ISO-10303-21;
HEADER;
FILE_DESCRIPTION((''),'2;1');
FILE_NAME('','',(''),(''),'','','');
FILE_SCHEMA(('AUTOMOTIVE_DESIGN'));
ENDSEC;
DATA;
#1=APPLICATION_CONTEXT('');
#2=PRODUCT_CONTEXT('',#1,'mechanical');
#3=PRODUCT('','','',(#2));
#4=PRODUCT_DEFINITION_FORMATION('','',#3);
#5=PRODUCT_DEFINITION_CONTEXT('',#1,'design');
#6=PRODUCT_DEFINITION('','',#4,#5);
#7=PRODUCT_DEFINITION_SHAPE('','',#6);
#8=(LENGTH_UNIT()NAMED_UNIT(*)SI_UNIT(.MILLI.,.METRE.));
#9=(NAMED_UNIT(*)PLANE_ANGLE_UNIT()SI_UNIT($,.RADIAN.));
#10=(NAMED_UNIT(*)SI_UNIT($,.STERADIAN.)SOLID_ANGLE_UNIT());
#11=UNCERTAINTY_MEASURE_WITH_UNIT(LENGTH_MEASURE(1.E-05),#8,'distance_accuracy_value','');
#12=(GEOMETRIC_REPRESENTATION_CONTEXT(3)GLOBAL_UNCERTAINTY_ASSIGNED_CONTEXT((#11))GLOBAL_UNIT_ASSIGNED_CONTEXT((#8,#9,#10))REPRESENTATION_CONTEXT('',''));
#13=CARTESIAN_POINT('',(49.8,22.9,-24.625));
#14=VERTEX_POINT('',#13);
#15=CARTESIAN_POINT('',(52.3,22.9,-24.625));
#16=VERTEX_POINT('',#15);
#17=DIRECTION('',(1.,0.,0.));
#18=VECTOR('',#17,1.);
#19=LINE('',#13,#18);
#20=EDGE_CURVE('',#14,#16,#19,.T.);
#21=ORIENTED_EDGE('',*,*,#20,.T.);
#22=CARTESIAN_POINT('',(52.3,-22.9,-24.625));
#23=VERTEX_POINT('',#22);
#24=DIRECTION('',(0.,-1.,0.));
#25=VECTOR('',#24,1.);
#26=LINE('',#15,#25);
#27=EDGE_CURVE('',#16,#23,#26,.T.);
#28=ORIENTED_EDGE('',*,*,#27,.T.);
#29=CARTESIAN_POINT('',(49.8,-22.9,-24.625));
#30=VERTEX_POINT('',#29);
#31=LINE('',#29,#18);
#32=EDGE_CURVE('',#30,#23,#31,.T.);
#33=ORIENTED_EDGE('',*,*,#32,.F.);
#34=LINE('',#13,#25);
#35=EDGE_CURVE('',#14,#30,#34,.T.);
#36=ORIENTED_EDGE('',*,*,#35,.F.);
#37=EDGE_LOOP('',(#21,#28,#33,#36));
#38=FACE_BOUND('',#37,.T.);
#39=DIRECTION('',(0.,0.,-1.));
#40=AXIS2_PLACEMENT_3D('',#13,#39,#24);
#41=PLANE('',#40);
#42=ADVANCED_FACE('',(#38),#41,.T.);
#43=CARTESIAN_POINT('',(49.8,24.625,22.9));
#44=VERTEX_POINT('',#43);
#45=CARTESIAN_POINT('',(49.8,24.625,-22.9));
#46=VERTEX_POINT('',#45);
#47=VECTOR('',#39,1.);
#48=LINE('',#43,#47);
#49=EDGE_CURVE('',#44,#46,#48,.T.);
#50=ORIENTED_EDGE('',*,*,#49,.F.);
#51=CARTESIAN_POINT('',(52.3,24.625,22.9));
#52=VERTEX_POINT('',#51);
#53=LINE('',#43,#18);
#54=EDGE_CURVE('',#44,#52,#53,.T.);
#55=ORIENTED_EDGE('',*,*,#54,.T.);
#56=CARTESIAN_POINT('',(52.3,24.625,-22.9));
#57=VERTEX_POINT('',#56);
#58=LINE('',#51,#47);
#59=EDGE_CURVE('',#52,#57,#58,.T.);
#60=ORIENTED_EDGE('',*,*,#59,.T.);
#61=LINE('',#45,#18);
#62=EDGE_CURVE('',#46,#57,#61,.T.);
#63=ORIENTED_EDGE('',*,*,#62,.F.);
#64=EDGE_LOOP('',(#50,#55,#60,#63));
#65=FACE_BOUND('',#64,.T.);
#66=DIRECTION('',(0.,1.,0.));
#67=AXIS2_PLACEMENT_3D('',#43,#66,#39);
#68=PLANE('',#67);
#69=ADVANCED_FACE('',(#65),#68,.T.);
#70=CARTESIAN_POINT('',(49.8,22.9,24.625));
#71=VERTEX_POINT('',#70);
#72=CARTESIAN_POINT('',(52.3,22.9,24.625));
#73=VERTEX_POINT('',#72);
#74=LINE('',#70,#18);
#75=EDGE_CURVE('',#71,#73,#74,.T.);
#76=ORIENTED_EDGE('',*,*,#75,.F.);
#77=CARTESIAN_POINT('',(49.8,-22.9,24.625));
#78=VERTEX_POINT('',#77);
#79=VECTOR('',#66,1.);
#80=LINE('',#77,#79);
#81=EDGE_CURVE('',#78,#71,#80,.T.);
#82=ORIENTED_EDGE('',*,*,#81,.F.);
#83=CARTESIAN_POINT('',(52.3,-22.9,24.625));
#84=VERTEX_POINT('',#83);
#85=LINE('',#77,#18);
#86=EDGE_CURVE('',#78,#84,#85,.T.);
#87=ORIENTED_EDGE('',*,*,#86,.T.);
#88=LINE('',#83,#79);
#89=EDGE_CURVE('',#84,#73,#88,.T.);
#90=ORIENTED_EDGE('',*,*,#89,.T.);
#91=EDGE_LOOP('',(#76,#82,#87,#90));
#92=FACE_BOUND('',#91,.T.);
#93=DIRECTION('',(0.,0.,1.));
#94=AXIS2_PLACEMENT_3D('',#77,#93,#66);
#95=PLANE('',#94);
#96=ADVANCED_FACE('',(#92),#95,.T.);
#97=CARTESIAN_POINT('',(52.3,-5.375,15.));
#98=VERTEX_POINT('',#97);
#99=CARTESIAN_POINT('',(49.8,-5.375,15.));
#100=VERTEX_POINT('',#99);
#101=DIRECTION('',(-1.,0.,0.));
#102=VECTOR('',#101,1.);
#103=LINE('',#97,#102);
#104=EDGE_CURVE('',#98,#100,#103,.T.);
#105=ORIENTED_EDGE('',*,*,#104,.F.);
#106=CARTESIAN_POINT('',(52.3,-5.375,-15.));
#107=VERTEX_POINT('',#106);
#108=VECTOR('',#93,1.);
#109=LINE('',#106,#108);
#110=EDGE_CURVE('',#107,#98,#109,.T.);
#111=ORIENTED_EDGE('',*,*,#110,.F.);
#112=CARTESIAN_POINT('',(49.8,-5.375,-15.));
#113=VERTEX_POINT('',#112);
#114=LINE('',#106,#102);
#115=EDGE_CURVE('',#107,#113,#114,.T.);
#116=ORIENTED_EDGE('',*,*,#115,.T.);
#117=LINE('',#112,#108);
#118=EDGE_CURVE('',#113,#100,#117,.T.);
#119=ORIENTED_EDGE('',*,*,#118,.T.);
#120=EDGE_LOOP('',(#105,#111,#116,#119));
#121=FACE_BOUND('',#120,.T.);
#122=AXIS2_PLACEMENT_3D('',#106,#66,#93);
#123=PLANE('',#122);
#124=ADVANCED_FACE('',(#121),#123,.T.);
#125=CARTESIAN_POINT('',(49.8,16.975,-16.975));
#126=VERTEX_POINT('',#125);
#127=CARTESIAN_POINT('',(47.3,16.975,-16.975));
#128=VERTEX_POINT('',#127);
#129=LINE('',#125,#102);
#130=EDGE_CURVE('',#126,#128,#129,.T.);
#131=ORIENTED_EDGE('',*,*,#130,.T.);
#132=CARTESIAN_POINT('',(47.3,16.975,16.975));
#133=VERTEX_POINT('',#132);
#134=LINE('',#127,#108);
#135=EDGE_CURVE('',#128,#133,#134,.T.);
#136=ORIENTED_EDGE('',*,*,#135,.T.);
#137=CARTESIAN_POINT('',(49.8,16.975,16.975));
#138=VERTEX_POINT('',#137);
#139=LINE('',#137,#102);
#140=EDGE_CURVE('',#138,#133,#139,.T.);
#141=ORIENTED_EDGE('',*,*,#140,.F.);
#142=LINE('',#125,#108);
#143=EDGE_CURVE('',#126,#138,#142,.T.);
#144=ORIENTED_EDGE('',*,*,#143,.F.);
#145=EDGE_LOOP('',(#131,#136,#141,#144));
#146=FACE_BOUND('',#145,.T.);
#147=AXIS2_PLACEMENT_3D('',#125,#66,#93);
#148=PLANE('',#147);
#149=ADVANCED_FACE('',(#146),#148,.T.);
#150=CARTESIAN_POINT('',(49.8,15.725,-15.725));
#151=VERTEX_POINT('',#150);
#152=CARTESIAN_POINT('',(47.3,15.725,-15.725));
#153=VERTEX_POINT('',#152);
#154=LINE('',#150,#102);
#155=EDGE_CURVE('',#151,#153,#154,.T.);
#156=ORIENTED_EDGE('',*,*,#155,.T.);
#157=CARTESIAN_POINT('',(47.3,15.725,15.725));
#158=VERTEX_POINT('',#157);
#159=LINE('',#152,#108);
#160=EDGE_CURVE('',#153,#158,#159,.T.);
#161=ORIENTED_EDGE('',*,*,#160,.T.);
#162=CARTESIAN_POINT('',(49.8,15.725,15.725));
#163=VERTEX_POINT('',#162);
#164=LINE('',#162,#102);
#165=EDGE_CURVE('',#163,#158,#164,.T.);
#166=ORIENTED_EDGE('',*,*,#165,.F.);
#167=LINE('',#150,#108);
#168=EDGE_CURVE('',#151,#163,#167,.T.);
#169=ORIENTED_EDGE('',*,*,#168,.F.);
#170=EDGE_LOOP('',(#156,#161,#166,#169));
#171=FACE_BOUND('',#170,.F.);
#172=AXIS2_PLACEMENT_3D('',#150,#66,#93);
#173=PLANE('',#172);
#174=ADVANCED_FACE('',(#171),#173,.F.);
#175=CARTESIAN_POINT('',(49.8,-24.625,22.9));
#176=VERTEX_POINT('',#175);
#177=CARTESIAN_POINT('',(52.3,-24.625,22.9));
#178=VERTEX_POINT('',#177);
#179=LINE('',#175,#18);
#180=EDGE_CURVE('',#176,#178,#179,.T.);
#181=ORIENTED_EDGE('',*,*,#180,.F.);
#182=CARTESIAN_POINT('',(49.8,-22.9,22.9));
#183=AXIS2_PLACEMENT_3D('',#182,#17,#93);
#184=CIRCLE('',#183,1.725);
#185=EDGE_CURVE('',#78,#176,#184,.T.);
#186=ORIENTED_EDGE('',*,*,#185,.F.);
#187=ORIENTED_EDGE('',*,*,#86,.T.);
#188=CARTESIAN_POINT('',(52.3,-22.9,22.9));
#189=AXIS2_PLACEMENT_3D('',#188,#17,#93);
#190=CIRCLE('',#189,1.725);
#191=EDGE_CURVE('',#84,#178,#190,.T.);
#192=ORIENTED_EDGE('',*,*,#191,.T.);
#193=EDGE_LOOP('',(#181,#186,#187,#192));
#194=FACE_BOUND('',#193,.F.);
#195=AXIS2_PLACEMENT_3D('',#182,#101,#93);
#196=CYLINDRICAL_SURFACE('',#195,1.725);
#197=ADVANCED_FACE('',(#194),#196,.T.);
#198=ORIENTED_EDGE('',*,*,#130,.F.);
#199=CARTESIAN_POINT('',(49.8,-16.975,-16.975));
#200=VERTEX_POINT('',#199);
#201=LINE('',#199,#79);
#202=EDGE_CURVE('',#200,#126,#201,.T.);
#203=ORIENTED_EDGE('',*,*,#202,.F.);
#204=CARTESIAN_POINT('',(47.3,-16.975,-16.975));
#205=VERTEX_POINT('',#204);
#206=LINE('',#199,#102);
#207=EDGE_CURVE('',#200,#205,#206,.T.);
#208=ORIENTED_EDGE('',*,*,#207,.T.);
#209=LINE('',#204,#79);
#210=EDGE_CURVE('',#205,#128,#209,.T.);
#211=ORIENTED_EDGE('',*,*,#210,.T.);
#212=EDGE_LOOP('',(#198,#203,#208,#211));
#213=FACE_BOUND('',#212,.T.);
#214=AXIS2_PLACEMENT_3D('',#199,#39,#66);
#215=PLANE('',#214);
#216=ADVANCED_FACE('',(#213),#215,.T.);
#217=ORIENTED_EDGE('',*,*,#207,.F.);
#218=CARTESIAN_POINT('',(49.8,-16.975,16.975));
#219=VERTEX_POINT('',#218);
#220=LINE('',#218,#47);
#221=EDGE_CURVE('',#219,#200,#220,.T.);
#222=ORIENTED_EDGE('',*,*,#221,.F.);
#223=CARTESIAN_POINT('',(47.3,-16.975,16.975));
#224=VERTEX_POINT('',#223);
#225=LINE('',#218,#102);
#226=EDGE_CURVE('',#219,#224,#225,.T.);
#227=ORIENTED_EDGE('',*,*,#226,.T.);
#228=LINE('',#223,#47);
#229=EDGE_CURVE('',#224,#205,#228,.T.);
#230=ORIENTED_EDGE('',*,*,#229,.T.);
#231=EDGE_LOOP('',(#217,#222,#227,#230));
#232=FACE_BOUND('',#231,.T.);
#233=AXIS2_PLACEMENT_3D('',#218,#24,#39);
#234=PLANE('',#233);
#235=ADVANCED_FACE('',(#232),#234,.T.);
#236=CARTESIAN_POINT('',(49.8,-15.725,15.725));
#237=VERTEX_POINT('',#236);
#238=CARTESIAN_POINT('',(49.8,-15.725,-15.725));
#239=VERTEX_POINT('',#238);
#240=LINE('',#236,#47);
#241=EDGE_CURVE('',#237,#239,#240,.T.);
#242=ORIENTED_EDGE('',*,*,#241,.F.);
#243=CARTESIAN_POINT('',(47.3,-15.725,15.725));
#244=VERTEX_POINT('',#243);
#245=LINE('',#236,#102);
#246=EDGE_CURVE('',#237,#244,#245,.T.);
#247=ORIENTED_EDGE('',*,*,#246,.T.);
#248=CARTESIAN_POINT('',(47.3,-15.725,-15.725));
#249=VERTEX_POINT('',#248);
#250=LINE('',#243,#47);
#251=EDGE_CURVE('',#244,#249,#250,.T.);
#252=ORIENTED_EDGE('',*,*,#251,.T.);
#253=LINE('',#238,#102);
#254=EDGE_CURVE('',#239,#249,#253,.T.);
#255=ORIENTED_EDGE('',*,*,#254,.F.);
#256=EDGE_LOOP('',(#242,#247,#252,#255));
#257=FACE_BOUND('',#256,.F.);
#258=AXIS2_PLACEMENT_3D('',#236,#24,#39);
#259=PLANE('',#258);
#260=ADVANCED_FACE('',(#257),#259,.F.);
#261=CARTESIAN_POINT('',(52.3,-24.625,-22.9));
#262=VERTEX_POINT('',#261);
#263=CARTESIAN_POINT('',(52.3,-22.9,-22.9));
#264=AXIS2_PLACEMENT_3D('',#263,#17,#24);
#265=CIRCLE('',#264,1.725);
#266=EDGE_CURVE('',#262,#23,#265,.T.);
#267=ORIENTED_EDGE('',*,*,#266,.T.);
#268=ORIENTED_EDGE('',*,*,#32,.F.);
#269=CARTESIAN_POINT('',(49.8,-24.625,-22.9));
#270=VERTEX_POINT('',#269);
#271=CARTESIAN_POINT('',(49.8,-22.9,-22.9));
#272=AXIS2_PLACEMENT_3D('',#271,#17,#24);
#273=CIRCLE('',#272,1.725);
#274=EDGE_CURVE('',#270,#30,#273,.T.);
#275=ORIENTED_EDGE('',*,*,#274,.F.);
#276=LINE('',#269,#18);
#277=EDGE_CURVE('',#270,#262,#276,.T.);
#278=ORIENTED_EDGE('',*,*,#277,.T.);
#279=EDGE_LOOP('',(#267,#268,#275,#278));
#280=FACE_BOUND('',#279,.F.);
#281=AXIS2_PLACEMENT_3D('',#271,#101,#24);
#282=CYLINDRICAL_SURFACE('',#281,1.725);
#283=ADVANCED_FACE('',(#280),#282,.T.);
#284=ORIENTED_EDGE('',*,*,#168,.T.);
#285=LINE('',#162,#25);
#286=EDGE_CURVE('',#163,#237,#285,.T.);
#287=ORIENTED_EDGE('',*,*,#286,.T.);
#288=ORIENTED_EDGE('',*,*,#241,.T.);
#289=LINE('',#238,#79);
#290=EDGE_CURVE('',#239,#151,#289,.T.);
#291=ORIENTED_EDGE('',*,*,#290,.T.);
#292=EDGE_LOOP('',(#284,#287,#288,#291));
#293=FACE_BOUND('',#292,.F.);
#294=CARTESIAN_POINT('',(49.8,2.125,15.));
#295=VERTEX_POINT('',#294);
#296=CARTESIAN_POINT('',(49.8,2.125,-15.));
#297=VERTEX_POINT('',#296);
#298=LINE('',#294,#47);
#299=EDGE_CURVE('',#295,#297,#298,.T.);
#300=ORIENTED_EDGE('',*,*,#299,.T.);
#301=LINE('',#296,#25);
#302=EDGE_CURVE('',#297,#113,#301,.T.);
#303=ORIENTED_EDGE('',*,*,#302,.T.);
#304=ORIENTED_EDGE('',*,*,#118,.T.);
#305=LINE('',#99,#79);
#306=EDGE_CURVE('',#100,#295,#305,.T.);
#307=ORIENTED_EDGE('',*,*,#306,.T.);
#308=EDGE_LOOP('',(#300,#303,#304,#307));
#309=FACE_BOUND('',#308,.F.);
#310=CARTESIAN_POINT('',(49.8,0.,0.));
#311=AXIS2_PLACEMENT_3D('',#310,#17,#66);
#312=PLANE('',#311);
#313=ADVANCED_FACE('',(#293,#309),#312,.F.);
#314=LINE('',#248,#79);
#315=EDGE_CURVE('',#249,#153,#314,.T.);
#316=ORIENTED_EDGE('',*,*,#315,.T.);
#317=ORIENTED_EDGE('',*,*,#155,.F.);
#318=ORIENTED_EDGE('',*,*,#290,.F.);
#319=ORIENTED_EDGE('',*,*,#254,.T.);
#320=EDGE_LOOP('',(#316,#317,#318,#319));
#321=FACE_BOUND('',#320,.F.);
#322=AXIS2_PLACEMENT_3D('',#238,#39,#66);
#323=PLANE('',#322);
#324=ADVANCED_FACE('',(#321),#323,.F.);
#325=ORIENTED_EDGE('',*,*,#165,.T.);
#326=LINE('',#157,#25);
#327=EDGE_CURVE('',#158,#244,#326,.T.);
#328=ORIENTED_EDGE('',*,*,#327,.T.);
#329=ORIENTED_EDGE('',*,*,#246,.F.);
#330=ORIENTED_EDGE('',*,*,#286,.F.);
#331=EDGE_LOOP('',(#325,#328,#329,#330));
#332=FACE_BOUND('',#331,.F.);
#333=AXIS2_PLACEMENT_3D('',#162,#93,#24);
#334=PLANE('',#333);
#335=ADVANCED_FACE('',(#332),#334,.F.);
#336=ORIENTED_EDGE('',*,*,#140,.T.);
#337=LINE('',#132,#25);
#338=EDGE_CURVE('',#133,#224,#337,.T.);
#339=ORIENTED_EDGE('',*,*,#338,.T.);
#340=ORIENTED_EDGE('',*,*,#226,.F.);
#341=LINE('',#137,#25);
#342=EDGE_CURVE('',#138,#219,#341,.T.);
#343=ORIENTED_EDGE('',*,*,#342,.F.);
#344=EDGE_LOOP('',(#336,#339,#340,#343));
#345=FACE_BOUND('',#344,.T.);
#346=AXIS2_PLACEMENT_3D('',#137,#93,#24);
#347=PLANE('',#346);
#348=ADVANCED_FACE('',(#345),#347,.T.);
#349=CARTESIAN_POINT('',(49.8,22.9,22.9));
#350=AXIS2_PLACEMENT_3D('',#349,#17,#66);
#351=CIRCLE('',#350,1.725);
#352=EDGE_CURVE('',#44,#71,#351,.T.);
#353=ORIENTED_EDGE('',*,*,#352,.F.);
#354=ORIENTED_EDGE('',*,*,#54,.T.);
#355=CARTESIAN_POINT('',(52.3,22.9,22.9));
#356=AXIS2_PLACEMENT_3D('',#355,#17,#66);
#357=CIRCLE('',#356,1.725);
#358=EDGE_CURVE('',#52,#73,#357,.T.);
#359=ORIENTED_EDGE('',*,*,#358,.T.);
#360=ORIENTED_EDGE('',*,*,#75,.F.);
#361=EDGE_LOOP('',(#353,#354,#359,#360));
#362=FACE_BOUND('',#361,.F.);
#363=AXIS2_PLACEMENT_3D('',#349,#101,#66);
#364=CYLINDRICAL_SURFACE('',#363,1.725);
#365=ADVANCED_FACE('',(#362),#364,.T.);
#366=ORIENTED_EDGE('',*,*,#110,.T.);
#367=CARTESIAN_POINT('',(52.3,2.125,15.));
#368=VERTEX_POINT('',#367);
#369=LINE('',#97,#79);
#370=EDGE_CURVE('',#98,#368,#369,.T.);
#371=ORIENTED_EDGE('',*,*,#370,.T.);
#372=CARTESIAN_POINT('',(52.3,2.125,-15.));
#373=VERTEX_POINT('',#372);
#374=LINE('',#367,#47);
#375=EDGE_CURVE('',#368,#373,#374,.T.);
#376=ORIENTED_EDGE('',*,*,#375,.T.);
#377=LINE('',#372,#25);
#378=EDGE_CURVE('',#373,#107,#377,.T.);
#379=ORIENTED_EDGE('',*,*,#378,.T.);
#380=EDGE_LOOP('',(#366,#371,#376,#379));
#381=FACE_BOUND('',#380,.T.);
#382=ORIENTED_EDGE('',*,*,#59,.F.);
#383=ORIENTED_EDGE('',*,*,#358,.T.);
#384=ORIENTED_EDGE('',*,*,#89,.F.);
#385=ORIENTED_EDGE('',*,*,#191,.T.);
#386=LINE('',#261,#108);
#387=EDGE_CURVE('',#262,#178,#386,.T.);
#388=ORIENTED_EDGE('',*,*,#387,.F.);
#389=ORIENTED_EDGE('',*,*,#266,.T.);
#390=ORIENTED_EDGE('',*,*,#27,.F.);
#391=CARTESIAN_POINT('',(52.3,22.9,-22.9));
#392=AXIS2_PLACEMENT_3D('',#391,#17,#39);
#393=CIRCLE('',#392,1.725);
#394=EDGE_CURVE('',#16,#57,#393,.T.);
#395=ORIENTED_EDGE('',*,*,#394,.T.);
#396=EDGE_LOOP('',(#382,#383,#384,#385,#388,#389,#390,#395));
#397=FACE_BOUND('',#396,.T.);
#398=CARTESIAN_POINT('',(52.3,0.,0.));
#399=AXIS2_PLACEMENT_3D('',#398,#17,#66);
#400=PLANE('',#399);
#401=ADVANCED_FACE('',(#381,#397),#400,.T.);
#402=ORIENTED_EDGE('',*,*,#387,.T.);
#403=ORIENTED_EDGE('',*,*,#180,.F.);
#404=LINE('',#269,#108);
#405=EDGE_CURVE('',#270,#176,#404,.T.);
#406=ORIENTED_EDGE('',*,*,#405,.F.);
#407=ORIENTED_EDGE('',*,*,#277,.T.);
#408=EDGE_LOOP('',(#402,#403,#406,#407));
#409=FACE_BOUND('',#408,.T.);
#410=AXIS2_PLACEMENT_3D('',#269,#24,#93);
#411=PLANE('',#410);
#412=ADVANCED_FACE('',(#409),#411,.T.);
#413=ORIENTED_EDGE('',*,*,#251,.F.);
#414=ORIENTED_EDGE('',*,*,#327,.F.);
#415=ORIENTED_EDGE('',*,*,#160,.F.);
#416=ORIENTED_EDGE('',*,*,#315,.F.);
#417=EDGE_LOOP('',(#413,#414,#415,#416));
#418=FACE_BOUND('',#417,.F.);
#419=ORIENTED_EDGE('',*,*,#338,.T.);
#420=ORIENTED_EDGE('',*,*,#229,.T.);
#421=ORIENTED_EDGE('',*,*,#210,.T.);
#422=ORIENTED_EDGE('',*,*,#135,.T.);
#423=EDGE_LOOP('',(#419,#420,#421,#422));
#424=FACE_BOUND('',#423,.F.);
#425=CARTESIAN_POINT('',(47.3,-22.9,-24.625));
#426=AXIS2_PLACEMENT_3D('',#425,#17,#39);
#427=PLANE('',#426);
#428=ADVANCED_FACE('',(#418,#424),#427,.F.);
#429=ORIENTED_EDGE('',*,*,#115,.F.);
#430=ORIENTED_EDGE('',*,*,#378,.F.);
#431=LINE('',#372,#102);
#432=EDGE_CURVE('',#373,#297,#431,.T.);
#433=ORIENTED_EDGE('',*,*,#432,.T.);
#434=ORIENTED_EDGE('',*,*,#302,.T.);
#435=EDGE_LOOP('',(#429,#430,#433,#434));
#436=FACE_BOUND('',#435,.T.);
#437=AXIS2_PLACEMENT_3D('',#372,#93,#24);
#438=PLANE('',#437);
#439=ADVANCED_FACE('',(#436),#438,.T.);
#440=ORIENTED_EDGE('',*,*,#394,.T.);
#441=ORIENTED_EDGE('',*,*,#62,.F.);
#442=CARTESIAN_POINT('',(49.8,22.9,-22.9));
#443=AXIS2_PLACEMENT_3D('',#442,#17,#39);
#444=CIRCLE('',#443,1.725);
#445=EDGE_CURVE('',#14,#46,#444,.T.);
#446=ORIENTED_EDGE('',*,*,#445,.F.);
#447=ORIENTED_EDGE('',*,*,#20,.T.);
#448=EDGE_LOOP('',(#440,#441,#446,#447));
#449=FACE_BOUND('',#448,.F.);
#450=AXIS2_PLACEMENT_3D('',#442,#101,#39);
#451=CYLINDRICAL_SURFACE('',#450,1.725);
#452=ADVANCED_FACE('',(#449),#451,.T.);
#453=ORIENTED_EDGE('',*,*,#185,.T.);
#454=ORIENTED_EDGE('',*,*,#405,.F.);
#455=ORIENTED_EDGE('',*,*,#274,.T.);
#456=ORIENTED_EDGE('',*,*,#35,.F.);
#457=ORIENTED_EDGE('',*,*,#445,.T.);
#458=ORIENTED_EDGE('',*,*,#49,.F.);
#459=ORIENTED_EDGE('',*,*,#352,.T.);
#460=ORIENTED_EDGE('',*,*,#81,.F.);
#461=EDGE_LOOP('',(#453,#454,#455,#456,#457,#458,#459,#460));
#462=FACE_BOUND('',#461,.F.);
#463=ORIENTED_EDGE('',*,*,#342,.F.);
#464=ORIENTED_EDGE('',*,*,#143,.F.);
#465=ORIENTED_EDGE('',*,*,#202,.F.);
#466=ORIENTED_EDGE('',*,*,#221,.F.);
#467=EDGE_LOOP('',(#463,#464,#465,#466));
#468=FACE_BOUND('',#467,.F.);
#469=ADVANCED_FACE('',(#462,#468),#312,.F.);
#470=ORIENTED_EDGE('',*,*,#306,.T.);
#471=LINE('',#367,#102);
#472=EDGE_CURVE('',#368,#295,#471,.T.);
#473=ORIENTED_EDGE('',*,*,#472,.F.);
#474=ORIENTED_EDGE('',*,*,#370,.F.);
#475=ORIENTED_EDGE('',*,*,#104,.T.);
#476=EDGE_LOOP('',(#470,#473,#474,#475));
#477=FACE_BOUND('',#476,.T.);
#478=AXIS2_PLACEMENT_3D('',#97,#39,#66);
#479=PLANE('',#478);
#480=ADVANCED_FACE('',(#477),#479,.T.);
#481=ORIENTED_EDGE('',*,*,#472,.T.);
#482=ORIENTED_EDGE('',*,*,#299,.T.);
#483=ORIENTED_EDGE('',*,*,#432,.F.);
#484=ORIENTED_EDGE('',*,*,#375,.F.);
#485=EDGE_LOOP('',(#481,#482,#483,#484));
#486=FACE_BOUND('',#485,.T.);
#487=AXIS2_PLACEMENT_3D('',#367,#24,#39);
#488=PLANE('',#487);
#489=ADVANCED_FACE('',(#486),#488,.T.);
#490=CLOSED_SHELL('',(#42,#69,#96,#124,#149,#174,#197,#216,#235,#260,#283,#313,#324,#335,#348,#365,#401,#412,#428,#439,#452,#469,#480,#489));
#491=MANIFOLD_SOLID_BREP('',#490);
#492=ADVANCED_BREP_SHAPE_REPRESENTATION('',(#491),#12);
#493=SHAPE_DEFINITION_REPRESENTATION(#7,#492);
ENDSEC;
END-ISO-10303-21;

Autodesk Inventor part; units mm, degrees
ref_plane "YZ Plane" through (0, 0, 0) normal (1, 0, 0) x (0, 1, 0)
ref_plane "XZ Plane" through (0, 0, 0) normal (0, 1, 0) x (-1, 0, 0)
sketch "Sketch1" plane through (0, 0, 0) normal (1, 0, 0) x (0, 1, 0)
  spline S0 degree 2 poles (3.4234, 22.1338) (3.5939, 22.0177) (3.7865, 21.6596) (3.7865, 21.4052) knots 0 0 0 1 2 2 2 projected
  spline S1 degree 2 poles (3.7865, 21.4052) (3.7865, 21.2076) (3.6457, 20.8519) (3.5198, 20.7284) knots 0 0 0 1 2 2 2 projected
  spline S2 degree 2 poles (3.5198, 20.7284) (3.3617, 20.5728) (2.9344, 20.4122) (2.6083, 20.4122) knots 0 0 0 1 2 2 2 projected
  line L0 (2.6083, 20.4122) -> (2.265, 20.4122) projected
  line L1 (2.265, 20.4122) -> (2.265, 19.276) projected
  line L2 (2.265, 19.276) -> (1.8599, 19.276) projected
  line L3 (1.8599, 19.276) -> (1.8599, 22.324) projected
  line L4 (1.8599, 22.324) -> (2.6256, 22.324) projected
  spline S3 degree 2 poles (2.6256, 22.324) (2.8973, 22.324) (3.2777, 22.2351) (3.4234, 22.1338) knots 0 0 0 1 2 2 2 projected
  spline S4 degree 2 poles (0.0667, 22.3882) (0.3779, 22.3882) (0.8769, 22.1709) (1.0498, 21.9757) knots 0 0 0 1 2 2 2 projected
  spline S5 degree 2 poles (1.0498, 21.9757) (1.2227, 21.7732) (1.4153, 21.1804) (1.4153, 20.8) knots 0 0 0 1 2 2 2 projected
  spline S6 degree 2 poles (1.4153, 20.8) (1.4153, 20.4295) (1.2276, 19.8293) (1.0498, 19.6267) knots 0 0 0 1 2 2 2 projected
  spline S7 degree 2 poles (1.0498, 19.6267) (0.862, 19.4143) (0.3656, 19.2118) (0.0667, 19.2118) knots 0 0 0 1 2 2 2 projected
  spline S8 degree 2 poles (0.0667, 19.2118) (-0.2421, 19.2118) (-0.7361, 19.4217) (-0.9164, 19.6267) knots 0 0 0 1 2 2 2 projected
  spline S9 degree 2 poles (-0.9164, 19.6267) (-1.0917, 19.8293) (-1.2795, 20.4246) (-1.2795, 20.8) knots 0 0 0 1 2 2 2 projected
  spline S10 degree 2 poles (-1.2795, 20.8) (-1.2795, 21.1829) (-1.0893, 21.7658) (-0.9139, 21.9757) knots 0 0 0 1 2 2 2 projected
  spline S11 degree 2 poles (-0.9139, 21.9757) (-0.7361, 22.1783) (-0.2396, 22.3882) (0.0667, 22.3882) knots 0 0 0 1 2 2 2 projected
  line L5 (-2.4379, 19.276) -> (-2.843, 19.276) projected
  line L6 (-2.843, 19.276) -> (-2.843, 21.9634) projected
  line L7 (-2.843, 21.9634) -> (-3.8656, 21.9634) projected
  line L8 (-3.8656, 21.9634) -> (-3.8656, 22.324) projected
  line L9 (-3.8656, 22.324) -> (-1.4153, 22.324) projected
  line L10 (-1.4153, 22.324) -> (-1.4153, 21.9634) projected
  line L11 (-1.4153, 21.9634) -> (-2.4379, 21.9634) projected
  line L12 (-2.4379, 21.9634) -> (-2.4379, 19.276) projected
  spline S12 degree 2 poles (22.1338, -3.4234) (22.0177, -3.5939) (21.6596, -3.7865) (21.4052, -3.7865) knots 0 0 0 1 2 2 2 projected
  spline S13 degree 2 poles (21.4052, -3.7865) (21.2076, -3.7865) (20.8519, -3.6457) (20.7284, -3.5198) knots 0 0 0 1 2 2 2 projected
  spline S14 degree 2 poles (20.7284, -3.5198) (20.5728, -3.3617) (20.4122, -2.9344) (20.4122, -2.6083) knots 0 0 0 1 2 2 2 projected
  line L13 (20.4122, -2.6083) -> (20.4122, -2.265) projected
  line L14 (20.4122, -2.265) -> (19.276, -2.265) projected
  line L15 (19.276, -2.265) -> (19.276, -1.8599) projected
  line L16 (19.276, -1.8599) -> (22.324, -1.8599) projected
  line L17 (22.324, -1.8599) -> (22.324, -2.6256) projected
  spline S15 degree 2 poles (22.324, -2.6256) (22.324, -2.8973) (22.2351, -3.2777) (22.1338, -3.4234) knots 0 0 0 1 2 2 2 projected
  spline S16 degree 2 poles (22.3882, -0.0667) (22.3882, -0.3779) (22.1709, -0.8769) (21.9757, -1.0498) knots 0 0 0 1 2 2 2 projected
  spline S17 degree 2 poles (21.9757, -1.0498) (21.7732, -1.2227) (21.1804, -1.4153) (20.8, -1.4153) knots 0 0 0 1 2 2 2 projected
  spline S18 degree 2 poles (20.8, -1.4153) (20.4295, -1.4153) (19.8293, -1.2276) (19.6267, -1.0498) knots 0 0 0 1 2 2 2 projected
  spline S19 degree 2 poles (19.6267, -1.0498) (19.4143, -0.862) (19.2118, -0.3656) (19.2118, -0.0667) knots 0 0 0 1 2 2 2 projected
  spline S20 degree 2 poles (19.2118, -0.0667) (19.2118, 0.2421) (19.4217, 0.7361) (19.6267, 0.9164) knots 0 0 0 1 2 2 2 projected
  spline S21 degree 2 poles (19.6267, 0.9164) (19.8293, 1.0917) (20.4246, 1.2795) (20.8, 1.2795) knots 0 0 0 1 2 2 2 projected
  spline S22 degree 2 poles (20.8, 1.2795) (21.1829, 1.2795) (21.7658, 1.0893) (21.9757, 0.9139) knots 0 0 0 1 2 2 2 projected
  spline S23 degree 2 poles (21.9757, 0.9139) (22.1783, 0.7361) (22.3882, 0.2396) (22.3882, -0.0667) knots 0 0 0 1 2 2 2 projected
  line L18 (19.276, 2.4379) -> (19.276, 2.843) projected
  line L19 (19.276, 2.843) -> (21.9634, 2.843) projected
  line L20 (21.9634, 2.843) -> (21.9634, 3.8656) projected
  line L21 (21.9634, 3.8656) -> (22.324, 3.8656) projected
  line L22 (22.324, 3.8656) -> (22.324, 1.4153) projected
  line L23 (22.324, 1.4153) -> (21.9634, 1.4153) projected
  line L24 (21.9634, 1.4153) -> (21.9634, 2.4379) projected
  line L25 (21.9634, 2.4379) -> (19.276, 2.4379) projected
  spline S24 degree 2 poles (-3.4234, -22.1338) (-3.5939, -22.0177) (-3.7865, -21.6596) (-3.7865, -21.4052) knots 0 0 0 1 2 2 2 projected
  spline S25 degree 2 poles (-3.7865, -21.4052) (-3.7865, -21.2076) (-3.6457, -20.8519) (-3.5198, -20.7284) knots 0 0 0 1 2 2 2 projected
  spline S26 degree 2 poles (-3.5198, -20.7284) (-3.3617, -20.5728) (-2.9344, -20.4122) (-2.6083, -20.4122) knots 0 0 0 1 2 2 2 projected
  line L26 (-2.6083, -20.4122) -> (-2.265, -20.4122) projected
  line L27 (-2.265, -20.4122) -> (-2.265, -19.276) projected
  line L28 (-2.265, -19.276) -> (-1.8599, -19.276) projected
  line L29 (-1.8599, -19.276) -> (-1.8599, -22.324) projected
  line L30 (-1.8599, -22.324) -> (-2.6256, -22.324) projected
  spline S27 degree 2 poles (-2.6256, -22.324) (-2.8973, -22.324) (-3.2777, -22.2351) (-3.4234, -22.1338) knots 0 0 0 1 2 2 2 projected
  spline S28 degree 2 poles (-0.0667, -22.3882) (-0.3779, -22.3882) (-0.8769, -22.1709) (-1.0498, -21.9757) knots 0 0 0 1 2 2 2 projected
  spline S29 degree 2 poles (-1.0498, -21.9757) (-1.2227, -21.7732) (-1.4153, -21.1804) (-1.4153, -20.8) knots 0 0 0 1 2 2 2 projected
  spline S30 degree 2 poles (-1.4153, -20.8) (-1.4153, -20.4295) (-1.2276, -19.8293) (-1.0498, -19.6267) knots 0 0 0 1 2 2 2 projected
  spline S31 degree 2 poles (-1.0498, -19.6267) (-0.862, -19.4143) (-0.3656, -19.2118) (-0.0667, -19.2118) knots 0 0 0 1 2 2 2 projected
  spline S32 degree 2 poles (-0.0667, -19.2118) (0.2421, -19.2118) (0.7361, -19.4217) (0.9164, -19.6267) knots 0 0 0 1 2 2 2 projected
  spline S33 degree 2 poles (0.9164, -19.6267) (1.0917, -19.8293) (1.2795, -20.4246) (1.2795, -20.8) knots 0 0 0 1 2 2 2 projected
  spline S34 degree 2 poles (1.2795, -20.8) (1.2795, -21.1829) (1.0893, -21.7658) (0.9139, -21.9757) knots 0 0 0 1 2 2 2 projected
  spline S35 degree 2 poles (0.9139, -21.9757) (0.7361, -22.1783) (0.2396, -22.3882) (-0.0667, -22.3882) knots 0 0 0 1 2 2 2 projected
  line L31 (2.4379, -19.276) -> (2.843, -19.276) projected
  line L32 (2.843, -19.276) -> (2.843, -21.9634) projected
  line L33 (2.843, -21.9634) -> (3.8656, -21.9634) projected
  line L34 (3.8656, -21.9634) -> (3.8656, -22.324) projected
  line L35 (3.8656, -22.324) -> (1.4153, -22.324) projected
  line L36 (1.4153, -22.324) -> (1.4153, -21.9634) projected
  line L37 (1.4153, -21.9634) -> (2.4379, -21.9634) projected
  line L38 (2.4379, -21.9634) -> (2.4379, -19.276) projected
  spline S36 degree 2 poles (-22.1338, 3.4234) (-22.0177, 3.5939) (-21.6596, 3.7865) (-21.4052, 3.7865) knots 0 0 0 1 2 2 2 projected
  spline S37 degree 2 poles (-21.4052, 3.7865) (-21.2076, 3.7865) (-20.8519, 3.6457) (-20.7284, 3.5198) knots 0 0 0 1 2 2 2 projected
  spline S38 degree 2 poles (-20.7284, 3.5198) (-20.5728, 3.3617) (-20.4122, 2.9344) (-20.4122, 2.6083) knots 0 0 0 1 2 2 2 projected
  line L39 (-20.4122, 2.6083) -> (-20.4122, 2.265) projected
  line L40 (-20.4122, 2.265) -> (-19.276, 2.265) projected
  line L41 (-19.276, 2.265) -> (-19.276, 1.8599) projected
  line L42 (-19.276, 1.8599) -> (-22.324, 1.8599) projected
  line L43 (-22.324, 1.8599) -> (-22.324, 2.6256) projected
  spline S39 degree 2 poles (-22.324, 2.6256) (-22.324, 2.8973) (-22.2351, 3.2777) (-22.1338, 3.4234) knots 0 0 0 1 2 2 2 projected
  spline S40 degree 2 poles (-22.3882, 0.0667) (-22.3882, 0.3779) (-22.1709, 0.8769) (-21.9757, 1.0498) knots 0 0 0 1 2 2 2 projected
  spline S41 degree 2 poles (-21.9757, 1.0498) (-21.7732, 1.2227) (-21.1804, 1.4153) (-20.8, 1.4153) knots 0 0 0 1 2 2 2 projected
  spline S42 degree 2 poles (-20.8, 1.4153) (-20.4295, 1.4153) (-19.8293, 1.2276) (-19.6267, 1.0498) knots 0 0 0 1 2 2 2 projected
  spline S43 degree 2 poles (-19.6267, 1.0498) (-19.4143, 0.862) (-19.2118, 0.3656) (-19.2118, 0.0667) knots 0 0 0 1 2 2 2 projected
  spline S44 degree 2 poles (-19.2118, 0.0667) (-19.2118, -0.2421) (-19.4217, -0.7361) (-19.6267, -0.9164) knots 0 0 0 1 2 2 2 projected
  spline S45 degree 2 poles (-19.6267, -0.9164) (-19.8293, -1.0917) (-20.4246, -1.2795) (-20.8, -1.2795) knots 0 0 0 1 2 2 2 projected
  spline S46 degree 2 poles (-20.8, -1.2795) (-21.1829, -1.2795) (-21.7658, -1.0893) (-21.9757, -0.9139) knots 0 0 0 1 2 2 2 projected
  spline S47 degree 2 poles (-21.9757, -0.9139) (-22.1783, -0.7361) (-22.3882, -0.2396) (-22.3882, 0.0667) knots 0 0 0 1 2 2 2 projected
  line L44 (-19.276, -2.4379) -> (-19.276, -2.843) projected
  line L45 (-19.276, -2.843) -> (-21.9634, -2.843) projected
  line L46 (-21.9634, -2.843) -> (-21.9634, -3.8656) projected
  line L47 (-21.9634, -3.8656) -> (-22.324, -3.8656) projected
  line L48 (-22.324, -3.8656) -> (-22.324, -1.4153) projected
  line L49 (-22.324, -1.4153) -> (-21.9634, -1.4153) projected
  line L50 (-21.9634, -1.4153) -> (-21.9634, -2.4379) projected
  line L51 (-21.9634, -2.4379) -> (-19.276, -2.4379) projected
  circle A0 centre (-21.9, 21.9) radius 1.875 projected
  circle A1 centre (21.9, -21.9) radius 1.875 projected
  circle A2 centre (-21.9, -21.9) radius 1.875 projected
  circle A3 centre (21.9, 21.9) radius 1.875 projected
  circle A4 centre (20.8, -14.4) radius 2.0788 projected
  circle A5 centre (-20.8, 14.4) radius 2.0788 projected
  circle A6 centre (-20.8, -14.4) radius 2.0788 projected
  circle A7 centre (-14.4, -20.8) radius 2.0788 projected
  line L52 (17.05, 17.05) -> (-17.05, 17.05) projected
  line L53 (17.05, -17.05) -> (17.05, 17.05) projected
  line L54 (-17.05, -17.05) -> (17.05, -17.05) projected
  line L55 (-17.05, 17.05) -> (-17.05, -17.05) projected
  circle A8 centre (14.4, -20.8) radius 2.0788 projected
  circle A9 centre (20.8, 14.4) radius 2.0788 projected
  circle A10 centre (-14.4, 20.8) radius 2.0788 projected
  circle A11 centre (14.4, 20.8) radius 2.0788 projected
  line L56 (24.875, 22.9) -> (24.875, -22.9) projected
  arc A12 (24.875, 22.9) -> (22.9, 24.875) centre (22.9, 22.9) ccw projected
  line L57 (-22.9, 24.875) -> (22.9, 24.875) projected
  arc A13 (-22.9, 24.875) -> (-24.875, 22.9) centre (-22.9, 22.9) ccw projected
  line L58 (-24.875, -22.9) -> (-24.875, 22.9) projected
  arc A14 (-24.875, -22.9) -> (-22.9, -24.875) centre (-22.9, -22.9) ccw projected
  line L59 (22.9, -24.875) -> (-22.9, -24.875) projected
  arc A15 (22.9, -24.875) -> (24.875, -22.9) centre (22.9, -22.9) ccw projected
  arc A16 (-24.625, -22.9) -> (-22.9, -24.625) centre (-22.9, -22.9) ccw
  line L60 (-24.625, -22.9) -> (-24.625, 22.9)
  arc A17 (-22.9, 24.625) -> (-24.625, 22.9) centre (-22.9, 22.9) ccw
  line L61 (-22.9, 24.625) -> (22.9, 24.625)
  arc A18 (24.625, 22.9) -> (22.9, 24.625) centre (22.9, 22.9) ccw
  line L62 (24.625, 22.9) -> (24.625, -22.9)
  arc A19 (22.9, -24.625) -> (24.625, -22.9) centre (22.9, -22.9) ccw
  line L63 (22.9, -24.625) -> (-22.9, -24.625)
  point P0 (0, 0)
  dimension "d0" = 0.25
ref_plane "Work Plane1" through (49.8, -24.875, -24.875) normal (1, 0, 0) x (0, 1, 0)
extrude "Extrusion1" add sketch "Sketch1" along normal blind 2.5 from surface at 49.8 contours S0 S1 S2 L0 L1 L2 L3 L4 S3 | S4 S5 S6 S7 S8 S9 S10 S11 | L5 L6 L7 L8 L9 L10 L11 L12 | S12 S13 S14 L13 L14 L15 L16 L17 S15 | S16 S17 S18 S19 S20 S21 S22 S23 | L18 L19 L20 L21 L22 L23 L24 L25 | S24 S25 S26 L26 L27 L28 L29 L30 S27 | S28 S29 S30 S31 S32 S33 S34 S35 | L31 L32 L33 L34 L35 L36 L37 L38 | S36 S37 S38 L39 L40 L41 L42 L43 S39 | S40 S41 S42 S43 S44 S45 S46 S47 | L44 L45 L46 L47 L48 L49 L50 L51 | A0 | A1 | A2 | A3 | A4 | A5 | A6 | A7 | L53 L54 L55 L52 | A8 | A9 | A10 | A11 | L60 A17 L61 A18 L62 A19 L63 A16
sketch "Sketch2" plane through (52.3, -22.9, -24.625) normal (1, 0, 0) x (0, 0, -1)
  spline S0 degree 2 poles (-46.7588, 26.3234) (-46.6427, 26.4939) (-46.2846, 26.6865) (-46.0302, 26.6865) knots 0 0 0 1 2 2 2 projected
  spline S1 degree 2 poles (-46.0302, 26.6865) (-45.8326, 26.6865) (-45.4769, 26.5457) (-45.3534, 26.4198) knots 0 0 0 1 2 2 2 projected
  spline S2 degree 2 poles (-45.3534, 26.4198) (-45.1978, 26.2617) (-45.0372, 25.8344) (-45.0372, 25.5083) knots 0 0 0 1 2 2 2 projected
  line L0 (-45.0372, 25.5083) -> (-45.0372, 25.165) projected
  line L1 (-45.0372, 25.165) -> (-43.901, 25.165) projected
  line L2 (-43.901, 25.165) -> (-43.901, 24.7599) projected
  line L3 (-43.901, 24.7599) -> (-46.949, 24.7599) projected
  line L4 (-46.949, 24.7599) -> (-46.949, 25.5256) projected
  spline S3 degree 2 poles (-46.949, 25.5256) (-46.949, 25.7973) (-46.8601, 26.1777) (-46.7588, 26.3234) knots 0 0 0 1 2 2 2 projected
  spline S4 degree 2 poles (-47.0132, 22.9667) (-47.0132, 23.2779) (-46.7959, 23.7769) (-46.6007, 23.9498) knots 0 0 0 1 2 2 2 projected
  spline S5 degree 2 poles (-46.6007, 23.9498) (-46.3982, 24.1227) (-45.8054, 24.3153) (-45.425, 24.3153) knots 0 0 0 1 2 2 2 projected
  spline S6 degree 2 poles (-45.425, 24.3153) (-45.0545, 24.3153) (-44.4543, 24.1276) (-44.2517, 23.9498) knots 0 0 0 1 2 2 2 projected
  spline S7 degree 2 poles (-44.2517, 23.9498) (-44.0393, 23.762) (-43.8368, 23.2656) (-43.8368, 22.9667) knots 0 0 0 1 2 2 2 projected
  spline S8 degree 2 poles (-43.8368, 22.9667) (-43.8368, 22.6579) (-44.0467, 22.1639) (-44.2517, 21.9836) knots 0 0 0 1 2 2 2 projected
  spline S9 degree 2 poles (-44.2517, 21.9836) (-44.4543, 21.8083) (-45.0496, 21.6205) (-45.425, 21.6205) knots 0 0 0 1 2 2 2 projected
  spline S10 degree 2 poles (-45.425, 21.6205) (-45.8079, 21.6205) (-46.3908, 21.8107) (-46.6007, 21.9861) knots 0 0 0 1 2 2 2 projected
  spline S11 degree 2 poles (-46.6007, 21.9861) (-46.8033, 22.1639) (-47.0132, 22.6604) (-47.0132, 22.9667) knots 0 0 0 1 2 2 2 projected
  line L5 (-43.901, 20.4621) -> (-43.901, 20.057) projected
  line L6 (-43.901, 20.057) -> (-46.5884, 20.057) projected
  line L7 (-46.5884, 20.057) -> (-46.5884, 19.0344) projected
  line L8 (-46.5884, 19.0344) -> (-46.949, 19.0344) projected
  line L9 (-46.949, 19.0344) -> (-46.949, 21.4847) projected
  line L10 (-46.949, 21.4847) -> (-46.5884, 21.4847) projected
  line L11 (-46.5884, 21.4847) -> (-46.5884, 20.4621) projected
  line L12 (-46.5884, 20.4621) -> (-43.901, 20.4621) projected
  spline S12 degree 2 poles (-21.2016, 45.0338) (-21.0311, 44.9177) (-20.8385, 44.5596) (-20.8385, 44.3052) knots 0 0 0 1 2 2 2 projected
  spline S13 degree 2 poles (-20.8385, 44.3052) (-20.8385, 44.1076) (-20.9793, 43.7519) (-21.1052, 43.6284) knots 0 0 0 1 2 2 2 projected
  spline S14 degree 2 poles (-21.1052, 43.6284) (-21.2633, 43.4728) (-21.6906, 43.3122) (-22.0167, 43.3122) knots 0 0 0 1 2 2 2 projected
  line L13 (-22.0167, 43.3122) -> (-22.36, 43.3122) projected
  line L14 (-22.36, 43.3122) -> (-22.36, 42.176) projected
  line L15 (-22.36, 42.176) -> (-22.7651, 42.176) projected
  line L16 (-22.7651, 42.176) -> (-22.7651, 45.224) projected
  line L17 (-22.7651, 45.224) -> (-21.9994, 45.224) projected
  spline S15 degree 2 poles (-21.9994, 45.224) (-21.7277, 45.224) (-21.3473, 45.1351) (-21.2016, 45.0338) knots 0 0 0 1 2 2 2 projected
  spline S16 degree 2 poles (-24.5583, 45.2882) (-24.2471, 45.2882) (-23.7481, 45.0709) (-23.5752, 44.8757) knots 0 0 0 1 2 2 2 projected
  spline S17 degree 2 poles (-23.5752, 44.8757) (-23.4023, 44.6732) (-23.2097, 44.0804) (-23.2097, 43.7) knots 0 0 0 1 2 2 2 projected
  spline S18 degree 2 poles (-23.2097, 43.7) (-23.2097, 43.3295) (-23.3974, 42.7293) (-23.5752, 42.5267) knots 0 0 0 1 2 2 2 projected
  spline S19 degree 2 poles (-23.5752, 42.5267) (-23.763, 42.3143) (-24.2594, 42.1118) (-24.5583, 42.1118) knots 0 0 0 1 2 2 2 projected
  spline S20 degree 2 poles (-24.5583, 42.1118) (-24.8671, 42.1118) (-25.3611, 42.3217) (-25.5414, 42.5267) knots 0 0 0 1 2 2 2 projected
  spline S21 degree 2 poles (-25.5414, 42.5267) (-25.7167, 42.7293) (-25.9045, 43.3246) (-25.9045, 43.7) knots 0 0 0 1 2 2 2 projected
  spline S22 degree 2 poles (-25.9045, 43.7) (-25.9045, 44.0829) (-25.7143, 44.6658) (-25.5389, 44.8757) knots 0 0 0 1 2 2 2 projected
  spline S23 degree 2 poles (-25.5389, 44.8757) (-25.3611, 45.0783) (-24.8646, 45.2882) (-24.5583, 45.2882) knots 0 0 0 1 2 2 2 projected
  line L18 (-27.0629, 42.176) -> (-27.468, 42.176) projected
  line L19 (-27.468, 42.176) -> (-27.468, 44.8634) projected
  line L20 (-27.468, 44.8634) -> (-28.4906, 44.8634) projected
  line L21 (-28.4906, 44.8634) -> (-28.4906, 45.224) projected
  line L22 (-28.4906, 45.224) -> (-26.0403, 45.224) projected
  line L23 (-26.0403, 45.224) -> (-26.0403, 44.8634) projected
  line L24 (-26.0403, 44.8634) -> (-27.0629, 44.8634) projected
  line L25 (-27.0629, 44.8634) -> (-27.0629, 42.176) projected
  spline S24 degree 2 poles (-2.4912, 19.4766) (-2.6073, 19.3061) (-2.9654, 19.1135) (-3.2198, 19.1135) knots 0 0 0 1 2 2 2 projected
  spline S25 degree 2 poles (-3.2198, 19.1135) (-3.4174, 19.1135) (-3.7731, 19.2543) (-3.8966, 19.3802) knots 0 0 0 1 2 2 2 projected
  spline S26 degree 2 poles (-3.8966, 19.3802) (-4.0522, 19.5383) (-4.2128, 19.9656) (-4.2128, 20.2917) knots 0 0 0 1 2 2 2 projected
  line L26 (-4.2128, 20.2917) -> (-4.2128, 20.635) projected
  line L27 (-4.2128, 20.635) -> (-5.349, 20.635) projected
  line L28 (-5.349, 20.635) -> (-5.349, 21.0401) projected
  line L29 (-5.349, 21.0401) -> (-2.301, 21.0401) projected
  line L30 (-2.301, 21.0401) -> (-2.301, 20.2744) projected
  spline S27 degree 2 poles (-2.301, 20.2744) (-2.301, 20.0027) (-2.3899, 19.6223) (-2.4912, 19.4766) knots 0 0 0 1 2 2 2 projected
  spline S28 degree 2 poles (-2.2368, 22.8333) (-2.2368, 22.5221) (-2.4541, 22.0231) (-2.6493, 21.8502) knots 0 0 0 1 2 2 2 projected
  spline S29 degree 2 poles (-2.6493, 21.8502) (-2.8518, 21.6773) (-3.4446, 21.4847) (-3.825, 21.4847) knots 0 0 0 1 2 2 2 projected
  spline S30 degree 2 poles (-3.825, 21.4847) (-4.1955, 21.4847) (-4.7957, 21.6724) (-4.9983, 21.8502) knots 0 0 0 1 2 2 2 projected
  spline S31 degree 2 poles (-4.9983, 21.8502) (-5.2107, 22.038) (-5.4132, 22.5344) (-5.4132, 22.8333) knots 0 0 0 1 2 2 2 projected
  spline S32 degree 2 poles (-5.4132, 22.8333) (-5.4132, 23.1421) (-5.2033, 23.6361) (-4.9983, 23.8164) knots 0 0 0 1 2 2 2 projected
  spline S33 degree 2 poles (-4.9983, 23.8164) (-4.7957, 23.9917) (-4.2004, 24.1795) (-3.825, 24.1795) knots 0 0 0 1 2 2 2 projected
  spline S34 degree 2 poles (-3.825, 24.1795) (-3.4421, 24.1795) (-2.8592, 23.9893) (-2.6493, 23.8139) knots 0 0 0 1 2 2 2 projected
  spline S35 degree 2 poles (-2.6493, 23.8139) (-2.4467, 23.6361) (-2.2368, 23.1396) (-2.2368, 22.8333) knots 0 0 0 1 2 2 2 projected
  line L31 (-5.349, 25.3379) -> (-5.349, 25.743) projected
  line L32 (-5.349, 25.743) -> (-2.6616, 25.743) projected
  line L33 (-2.6616, 25.743) -> (-2.6616, 26.7656) projected
  line L34 (-2.6616, 26.7656) -> (-2.301, 26.7656) projected
  line L35 (-2.301, 26.7656) -> (-2.301, 24.3153) projected
  line L36 (-2.301, 24.3153) -> (-2.6616, 24.3153) projected
  line L37 (-2.6616, 24.3153) -> (-2.6616, 25.3379) projected
  line L38 (-2.6616, 25.3379) -> (-5.349, 25.3379) projected
  spline S36 degree 2 poles (-28.0484, 0.7662) (-28.2189, 0.8823) (-28.4115, 1.2404) (-28.4115, 1.4948) knots 0 0 0 1 2 2 2 projected
  spline S37 degree 2 poles (-28.4115, 1.4948) (-28.4115, 1.6924) (-28.2707, 2.0481) (-28.1448, 2.1716) knots 0 0 0 1 2 2 2 projected
  spline S38 degree 2 poles (-28.1448, 2.1716) (-27.9867, 2.3272) (-27.5594, 2.4878) (-27.2333, 2.4878) knots 0 0 0 1 2 2 2 projected
  line L39 (-27.2333, 2.4878) -> (-26.89, 2.4878) projected
  line L40 (-26.89, 2.4878) -> (-26.89, 3.624) projected
  line L41 (-26.89, 3.624) -> (-26.4849, 3.624) projected
  line L42 (-26.4849, 3.624) -> (-26.4849, 0.576) projected
  line L43 (-26.4849, 0.576) -> (-27.2506, 0.576) projected
  spline S39 degree 2 poles (-27.2506, 0.576) (-27.5223, 0.576) (-27.9027, 0.6649) (-28.0484, 0.7662) knots 0 0 0 1 2 2 2 projected
  spline S40 degree 2 poles (-24.6917, 0.5118) (-25.0029, 0.5118) (-25.5019, 0.7291) (-25.6748, 0.9243) knots 0 0 0 1 2 2 2 projected
  spline S41 degree 2 poles (-25.6748, 0.9243) (-25.8477, 1.1268) (-26.0403, 1.7196) (-26.0403, 2.1) knots 0 0 0 1 2 2 2 projected
  spline S42 degree 2 poles (-26.0403, 2.1) (-26.0403, 2.4705) (-25.8526, 3.0707) (-25.6748, 3.2733) knots 0 0 0 1 2 2 2 projected
  spline S43 degree 2 poles (-25.6748, 3.2733) (-25.487, 3.4857) (-24.9906, 3.6882) (-24.6917, 3.6882) knots 0 0 0 1 2 2 2 projected
  spline S44 degree 2 poles (-24.6917, 3.6882) (-24.3829, 3.6882) (-23.8889, 3.4783) (-23.7086, 3.2733) knots 0 0 0 1 2 2 2 projected
  spline S45 degree 2 poles (-23.7086, 3.2733) (-23.5333, 3.0707) (-23.3455, 2.4754) (-23.3455, 2.1) knots 0 0 0 1 2 2 2 projected
  spline S46 degree 2 poles (-23.3455, 2.1) (-23.3455, 1.7171) (-23.5357, 1.1342) (-23.7111, 0.9243) knots 0 0 0 1 2 2 2 projected
  spline S47 degree 2 poles (-23.7111, 0.9243) (-23.8889, 0.7217) (-24.3854, 0.5118) (-24.6917, 0.5118) knots 0 0 0 1 2 2 2 projected
  line L44 (-22.1871, 3.624) -> (-21.782, 3.624) projected
  line L45 (-21.782, 3.624) -> (-21.782, 0.9366) projected
  line L46 (-21.782, 0.9366) -> (-20.7594, 0.9366) projected
  line L47 (-20.7594, 0.9366) -> (-20.7594, 0.576) projected
  line L48 (-20.7594, 0.576) -> (-23.2097, 0.576) projected
  line L49 (-23.2097, 0.576) -> (-23.2097, 0.9366) projected
  line L50 (-23.2097, 0.9366) -> (-22.1871, 0.9366) projected
  line L51 (-22.1871, 0.9366) -> (-22.1871, 3.624) projected
  circle A0 centre (-46.525, 1) radius 1.875 projected
  circle A1 centre (-2.725, 44.8) radius 1.875 projected
  circle A2 centre (-2.725, 1) radius 1.875 projected
  circle A3 centre (-46.525, 44.8) radius 1.875 projected
  circle A4 centre (-10.225, 43.7) radius 2.0788 projected
  circle A5 centre (-39.025, 2.1) radius 2.0788 projected
  circle A6 centre (-10.225, 2.1) radius 2.0788 projected
  circle A7 centre (-3.825, 8.5) radius 2.0788 projected
  line L52 (-41.675, 39.95) -> (-41.675, 5.85) projected
  line L53 (-7.575, 39.95) -> (-41.675, 39.95) projected
  line L54 (-7.575, 5.85) -> (-7.575, 39.95) projected
  line L55 (-41.675, 5.85) -> (-7.575, 5.85) projected
  circle A8 centre (-3.825, 37.3) radius 2.0788 projected
  circle A9 centre (-39.025, 43.7) radius 2.0788 projected
  circle A10 centre (-45.425, 8.5) radius 2.0788 projected
  circle A11 centre (-45.425, 37.3) radius 2.0788 projected
  line L56 (-47.525, 47.775) -> (-1.725, 47.775) projected
  arc A12 (-47.525, 47.775) -> (-49.5, 45.8) centre (-47.525, 45.8) ccw projected
  line L57 (-49.5, 0) -> (-49.5, 45.8) projected
  arc A13 (-49.5, 0) -> (-47.525, -1.975) centre (-47.525, 0) ccw projected
  line L58 (-1.725, -1.975) -> (-47.525, -1.975) projected
  arc A14 (-1.725, -1.975) -> (0.25, 0) centre (-1.725, 0) ccw projected
  line L59 (0.25, 45.8) -> (0.25, 0) projected
  arc A15 (0.25, 45.8) -> (-1.725, 47.775) centre (-1.725, 45.8) ccw projected
  circle A16 centre (-2.725, 44.8) radius 1.8
  circle A17 centre (-2.725, 1) radius 1.8
  circle A18 centre (-46.525, 1) radius 1.8
  circle A19 centre (-46.525, 44.8) radius 1.8
  line L60 (-7.65, 39.875) -> (-41.6, 39.875)
  line L61 (-41.6, 39.875) -> (-41.6, 5.925)
  line L62 (-41.6, 5.925) -> (-7.65, 5.925)
  line L63 (-7.65, 5.925) -> (-7.65, 39.875)
  line L64 (-8.9, 38.625) -> (-40.35, 38.625)
  line L65 (-40.35, 38.625) -> (-40.35, 7.175)
  line L66 (-40.35, 7.175) -> (-8.9, 7.175)
  line L67 (-8.9, 7.175) -> (-8.9, 38.625)
  point P0 (-24.625, 22.9)
  dimension "d3" = 0.075
  dimension "d4" = 0.075
  dimension "d5" = 0.075
  dimension "d6" = 0.075
  dimension "d20" = 0.075
  dimension "d21" = 1.25
extrude "Extrusion2" add sketch "Sketch2" against normal blind 2.5 from surface at -2.5 contours L63 L62 L61 L60
sketch "Sketch3" plane through (52.3, -22.9, -24.625) normal (1, 0, 0) x (0, 0, -1)
  arc A0 (-49.25, 0) -> (-47.525, -1.725) centre (-47.525, 0) ccw projected
  line L0 (-1.725, -1.725) -> (-47.525, -1.725) projected
  arc A1 (-1.725, -1.725) -> (0, 0) centre (-1.725, 0) ccw projected
  line L1 (0, 45.8) -> (0, 0) projected
  arc A2 (0, 45.8) -> (-1.725, 47.525) centre (-1.725, 45.8) ccw projected
  line L2 (-47.525, 47.525) -> (-1.725, 47.525) projected
  arc A3 (-47.525, 47.525) -> (-49.25, 45.8) centre (-47.525, 45.8) ccw projected
  line L3 (-49.25, 0) -> (-49.25, 45.8) projected
  line L4 (-24.625, -1.725) -> (-24.625, 21.275)
  line L5 (-39.625, 25.025) -> (-9.625, 25.025)
  line L6 (-9.625, 25.025) -> (-9.625, 17.525)
  line L7 (-9.625, 17.525) -> (-39.625, 17.525)
  line L8 (-39.625, 17.525) -> (-39.625, 25.025)
  line L9 (-39.625, 25.025) -> (-9.625, 17.525) construction
  line L10 (-9.625, 25.025) -> (-39.625, 17.525) construction
  point P0 (-24.625, 22.9)
  dimension "d12" = 23
  dimension "d13" = 30
  dimension "d14" = 7.5
extrude "Extrusion3" cut sketch "Sketch3" against normal up to surface (2.5 mm away) contours L7 L8 L5 L6
properties part number "Cover Top (Slotted) Proto"
